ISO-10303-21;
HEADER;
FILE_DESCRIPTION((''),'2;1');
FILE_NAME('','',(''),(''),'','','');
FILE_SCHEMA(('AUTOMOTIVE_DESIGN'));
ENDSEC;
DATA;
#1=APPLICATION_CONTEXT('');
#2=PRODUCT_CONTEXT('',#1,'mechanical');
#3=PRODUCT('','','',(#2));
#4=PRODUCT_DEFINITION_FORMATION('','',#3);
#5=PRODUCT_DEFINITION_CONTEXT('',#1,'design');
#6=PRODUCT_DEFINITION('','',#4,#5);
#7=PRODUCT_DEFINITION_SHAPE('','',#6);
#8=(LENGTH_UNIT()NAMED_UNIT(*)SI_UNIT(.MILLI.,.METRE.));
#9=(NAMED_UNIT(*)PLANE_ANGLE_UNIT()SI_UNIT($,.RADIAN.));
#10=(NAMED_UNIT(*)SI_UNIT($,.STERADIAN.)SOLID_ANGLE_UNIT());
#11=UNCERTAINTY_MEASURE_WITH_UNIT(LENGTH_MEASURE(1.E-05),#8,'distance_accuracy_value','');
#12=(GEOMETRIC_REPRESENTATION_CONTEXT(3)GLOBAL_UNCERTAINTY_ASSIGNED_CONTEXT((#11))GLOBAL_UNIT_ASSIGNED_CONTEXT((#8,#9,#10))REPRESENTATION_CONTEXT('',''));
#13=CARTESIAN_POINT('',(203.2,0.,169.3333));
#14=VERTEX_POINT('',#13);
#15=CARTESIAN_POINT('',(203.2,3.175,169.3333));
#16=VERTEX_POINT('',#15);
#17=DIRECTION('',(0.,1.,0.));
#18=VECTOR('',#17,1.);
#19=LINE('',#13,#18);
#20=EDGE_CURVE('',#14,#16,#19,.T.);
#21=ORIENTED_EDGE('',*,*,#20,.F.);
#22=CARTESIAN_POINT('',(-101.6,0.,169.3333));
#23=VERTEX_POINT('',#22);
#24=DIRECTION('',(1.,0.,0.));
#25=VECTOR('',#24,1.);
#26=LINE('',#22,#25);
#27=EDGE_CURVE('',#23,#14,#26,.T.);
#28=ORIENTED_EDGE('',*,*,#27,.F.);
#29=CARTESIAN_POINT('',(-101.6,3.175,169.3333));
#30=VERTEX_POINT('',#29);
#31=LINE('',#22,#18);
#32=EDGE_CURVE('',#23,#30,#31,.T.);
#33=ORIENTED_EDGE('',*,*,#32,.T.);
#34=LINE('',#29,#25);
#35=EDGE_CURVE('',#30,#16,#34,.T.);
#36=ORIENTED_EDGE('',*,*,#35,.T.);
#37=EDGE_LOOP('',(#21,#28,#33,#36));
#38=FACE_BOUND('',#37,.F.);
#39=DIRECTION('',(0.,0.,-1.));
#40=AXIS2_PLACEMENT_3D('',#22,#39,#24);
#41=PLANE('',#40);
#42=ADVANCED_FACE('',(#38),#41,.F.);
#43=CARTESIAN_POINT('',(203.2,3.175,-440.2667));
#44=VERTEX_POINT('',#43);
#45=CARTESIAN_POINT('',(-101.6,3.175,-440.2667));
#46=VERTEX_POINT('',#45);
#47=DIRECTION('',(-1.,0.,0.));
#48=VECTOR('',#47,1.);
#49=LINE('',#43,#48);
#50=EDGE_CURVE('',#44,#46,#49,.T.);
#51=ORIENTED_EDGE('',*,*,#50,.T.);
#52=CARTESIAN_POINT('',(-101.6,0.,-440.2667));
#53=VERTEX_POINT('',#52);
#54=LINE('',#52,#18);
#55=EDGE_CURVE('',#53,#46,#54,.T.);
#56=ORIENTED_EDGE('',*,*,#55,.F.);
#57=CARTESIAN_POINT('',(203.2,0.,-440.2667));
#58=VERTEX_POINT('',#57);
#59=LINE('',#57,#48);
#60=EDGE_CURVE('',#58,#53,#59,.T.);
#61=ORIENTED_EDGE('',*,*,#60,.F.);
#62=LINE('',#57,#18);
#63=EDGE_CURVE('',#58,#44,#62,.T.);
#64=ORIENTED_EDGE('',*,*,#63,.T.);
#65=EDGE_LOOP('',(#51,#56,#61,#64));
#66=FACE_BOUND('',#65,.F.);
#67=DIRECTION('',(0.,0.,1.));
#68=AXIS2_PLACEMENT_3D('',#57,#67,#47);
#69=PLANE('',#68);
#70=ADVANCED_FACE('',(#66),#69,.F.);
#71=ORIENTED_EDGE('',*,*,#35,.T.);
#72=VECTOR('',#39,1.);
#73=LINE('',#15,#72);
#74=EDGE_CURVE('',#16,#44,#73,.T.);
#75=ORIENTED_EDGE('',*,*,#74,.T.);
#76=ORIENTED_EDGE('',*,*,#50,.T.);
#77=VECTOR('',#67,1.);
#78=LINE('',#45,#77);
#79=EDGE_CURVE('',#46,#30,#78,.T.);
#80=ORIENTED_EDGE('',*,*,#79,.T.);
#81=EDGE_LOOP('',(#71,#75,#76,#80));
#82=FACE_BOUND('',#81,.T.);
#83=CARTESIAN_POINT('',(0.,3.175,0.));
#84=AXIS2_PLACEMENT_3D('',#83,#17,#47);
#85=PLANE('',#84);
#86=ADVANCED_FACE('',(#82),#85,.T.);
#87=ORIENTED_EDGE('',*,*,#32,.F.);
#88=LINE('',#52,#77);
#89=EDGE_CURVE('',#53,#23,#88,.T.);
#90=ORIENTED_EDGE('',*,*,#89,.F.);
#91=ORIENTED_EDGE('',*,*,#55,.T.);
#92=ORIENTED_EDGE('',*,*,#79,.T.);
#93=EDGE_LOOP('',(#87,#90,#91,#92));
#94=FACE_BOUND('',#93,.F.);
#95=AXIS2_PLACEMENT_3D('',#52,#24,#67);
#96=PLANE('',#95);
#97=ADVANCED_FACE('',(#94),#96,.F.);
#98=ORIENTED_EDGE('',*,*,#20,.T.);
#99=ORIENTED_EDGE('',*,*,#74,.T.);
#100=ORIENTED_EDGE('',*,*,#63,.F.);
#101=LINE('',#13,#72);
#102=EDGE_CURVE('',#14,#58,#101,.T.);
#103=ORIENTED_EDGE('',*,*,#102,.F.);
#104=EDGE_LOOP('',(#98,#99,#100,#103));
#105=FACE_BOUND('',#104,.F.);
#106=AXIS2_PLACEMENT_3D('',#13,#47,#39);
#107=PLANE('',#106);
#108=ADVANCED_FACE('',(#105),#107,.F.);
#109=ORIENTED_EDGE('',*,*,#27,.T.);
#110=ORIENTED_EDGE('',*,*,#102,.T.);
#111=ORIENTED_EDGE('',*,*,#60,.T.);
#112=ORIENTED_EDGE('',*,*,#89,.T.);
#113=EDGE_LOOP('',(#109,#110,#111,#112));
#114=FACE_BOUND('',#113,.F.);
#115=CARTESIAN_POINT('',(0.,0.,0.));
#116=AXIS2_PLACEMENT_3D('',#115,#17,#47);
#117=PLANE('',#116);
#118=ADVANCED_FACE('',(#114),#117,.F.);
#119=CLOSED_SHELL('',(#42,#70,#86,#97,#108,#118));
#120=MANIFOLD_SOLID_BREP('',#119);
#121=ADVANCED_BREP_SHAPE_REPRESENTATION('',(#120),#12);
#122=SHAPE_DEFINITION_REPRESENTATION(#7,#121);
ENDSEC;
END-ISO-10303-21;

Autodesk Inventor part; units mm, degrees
ref_plane "YZ Plane" through (0, 0, 0) normal (1, 0, 0) x (0, 1, 0)
ref_plane "XZ Plane" through (0, 0, 0) normal (0, 1, 0) x (-1, 0, 0)
ref_plane "XY Plane" through (0, 0, 0) normal (0, 0, 1) x (1, 0, 0)
sketch "Sketch1" plane through (0, 0, 0) normal (0, 1, 0) x (-1, 0, 0)
  line L0 (101.6, 169.3333) -> (-203.2, 169.3333)
  line L1 (-203.2, 169.3333) -> (-203.2, -440.2667)
  line L2 (-203.2, -440.2667) -> (101.6, -440.2667)
  line L3 (101.6, -440.2667) -> (101.6, 169.3333)
  point P0 (0, 0)
  dimension "d0" = 304.8
  dimension "d1" = 609.6
extrude "Extrusion1" add sketch "Sketch1" along normal blind 3.175
sketch "Sketch2" plane through (0, 3.175, 0) normal (0, 1, 0) x (1, 0, 0)
  circle A0 centre (-15.875, -95.25) radius 63.5 construction
  circle A1 centre (-15.875, -95.25) radius 88.9 construction
  line L0 (-15.875, -6.35) -> (-53.1994, -43.8774)
  line L1 (-53.1994, -43.8774) -> (-100.4239, -67.7784)
  line L2 (-100.4239, -67.7784) -> (-76.2671, -114.8726)
  line L3 (-76.2671, -114.8726) -> (-68.1291, -167.1716)
  line L4 (-68.1291, -167.1716) -> (-15.875, -158.75)
  line L5 (36.3791, -167.1716) -> (-15.875, -158.75)
  line L6 (44.5171, -114.8726) -> (36.3791, -167.1716)
  line L7 (44.5171, -114.8726) -> (68.6739, -67.7784)
  line L8 (68.6739, -67.7784) -> (21.4494, -43.8774)
  line L9 (21.4494, -43.8774) -> (-15.875, -6.35)
  line L10 (122.7836, -165.1) -> (103.3018, -165.1)
  line L11 (103.3018, -168.275) -> (103.3018, -165.1)
  line L12 (95.6818, -168.275) -> (103.3018, -168.275)
  line L13 (95.6818, -165.1) -> (95.6818, -168.275)
  line L14 (73.025, -165.1) -> (95.6818, -165.1)
  line L15 (73.025, -165.1) -> (68.1796, -72.334)
  line L16 (68.1796, -72.334) -> (73.025, -165.1)
  line L17 (68.1796, -72.334) -> (71.3503, -72.1684)
  line L18 (71.3503, -72.1684) -> (70.9528, -64.5588)
  line L19 (70.9528, -64.5588) -> (71.3503, -72.1684)
  line L20 (70.9528, -64.5588) -> (67.7821, -64.7244)
  line L21 (67.7821, -64.7244) -> (70.9528, -64.5588)
  line L22 (67.7821, -64.7244) -> (63.2239, 22.5422)
  line L23 (67.7821, -64.7244) -> (63.2239, 22.5422)
  line L24 (63.2239, 22.5422) -> (90.9783, -64.8977)
  line L25 (90.9783, -64.8977) -> (63.2239, 22.5422)
  line L26 (90.9783, -64.8977) -> (87.9521, -65.8583)
  line L27 (87.9521, -65.8583) -> (90.2574, -73.1212)
  line L28 (90.2574, -73.1212) -> (93.2836, -72.1607)
  line L29 (90.2574, -73.1212) -> (93.2836, -72.1607)
  line L30 (93.2836, -72.1607) -> (122.7836, -165.1)
  line L31 (63.2239, 22.5422) -> (85.8673, 23.3211)
  line L32 (85.8673, 23.3211) -> (85.7582, 26.4942)
  line L33 (85.7582, 26.4942) -> (93.3737, 26.7562)
  line L34 (93.3737, 26.7562) -> (93.4828, 23.583)
  line L35 (93.4828, 23.583) -> (116.1262, 24.3619)
  line L36 (93.4828, 23.583) -> (116.1262, 24.3619)
  line L37 (116.1262, 24.3619) -> (124.1586, -68.1926)
  line L38 (124.1586, -68.1926) -> (116.1262, 24.3619)
  line L39 (124.1586, -68.1926) -> (127.3217, -67.9181)
  line L40 (127.3217, -67.9181) -> (127.9805, -75.5095)
  line L41 (127.3217, -67.9181) -> (127.9805, -75.5095)
  line L42 (127.9805, -75.5095) -> (124.8174, -75.784)
  line L43 (124.8174, -75.784) -> (132.8498, -168.3385)
  line L44 (124.8174, -75.784) -> (132.8498, -168.3385)
  line L45 (132.8498, -168.3385) -> (99.3425, -76.4774)
  line L46 (96.3597, -77.5654) -> (93.7485, -70.4068)
  line L47 (99.3425, -76.4774) -> (96.3597, -77.5654)
  line L48 (96.3597, -77.5654) -> (93.7485, -70.4068)
  line L49 (93.7485, -70.4068) -> (96.7313, -69.3188)
  line L50 (96.7313, -69.3188) -> (63.2239, 22.5422)
  line L51 (190.9567, -155.6753) -> (168.3382, -156.9913)
  line L52 (168.3382, -156.9913) -> (168.5226, -160.161)
  line L53 (168.5226, -160.161) -> (160.9155, -160.6036)
  line L54 (168.5226, -160.161) -> (160.9155, -160.6036)
  line L55 (160.9155, -160.6036) -> (160.731, -157.4339)
  line L56 (160.731, -157.4339) -> (138.1125, -158.75)
  line L57 (160.731, -157.4339) -> (138.1125, -158.75)
  line L58 (138.1125, -158.75) -> (127.8857, -66.4122)
  line L59 (127.8857, -66.4122) -> (138.1125, -158.75)
  line L60 (127.8857, -66.4122) -> (124.73, -66.7618)
  line L61 (124.73, -66.7618) -> (123.8912, -59.1881)
  line L62 (124.73, -66.7618) -> (123.8912, -59.1881)
  line L63 (123.8912, -59.1881) -> (127.0469, -58.8386)
  line L64 (127.0469, -58.8386) -> (116.8201, 33.4992)
  line L65 (127.0469, -58.8386) -> (116.8201, 33.4992)
  line L66 (116.8201, 33.4992) -> (152.4982, -57.5407)
  line L67 (155.4543, -56.3822) -> (158.2347, -63.4769)
  line L68 (152.4982, -57.5407) -> (155.4543, -56.3822)
  line L69 (155.4543, -56.3822) -> (158.2347, -63.4769)
  line L70 (158.2347, -63.4769) -> (155.2786, -64.6354)
  line L71 (155.2786, -64.6354) -> (190.9567, -155.6753)
  line L72 (155.2786, -64.6354) -> (190.9567, -155.6753)
  line L73 (190.9567, -155.6753) -> (168.3382, -156.9913)
  line L74 (168.3382, -156.9913) -> (168.5226, -160.161)
  line L75 (168.5226, -160.161) -> (160.9155, -160.6036)
  line L76 (168.5226, -160.161) -> (160.9155, -160.6036)
  line L77 (160.9155, -160.6036) -> (160.731, -157.4339)
  line L78 (160.731, -157.4339) -> (138.1125, -158.75)
  line L79 (160.731, -157.4339) -> (138.1125, -158.75)
  line L80 (138.1125, -158.75) -> (127.8857, -66.4122)
  line L81 (127.8857, -66.4122) -> (138.1125, -158.75)
  line L82 (127.8857, -66.4122) -> (124.73, -66.7618)
  line L83 (124.73, -66.7618) -> (123.8912, -59.1881)
  line L84 (124.73, -66.7618) -> (123.8912, -59.1881)
  line L85 (123.8912, -59.1881) -> (127.0469, -58.8386)
  line L86 (127.0469, -58.8386) -> (116.8201, 33.4992)
  line L87 (127.0469, -58.8386) -> (116.8201, 33.4992)
  line L88 (116.8201, 33.4992) -> (152.4982, -57.5407)
  line L89 (155.4543, -56.3822) -> (158.2347, -63.4769)
  line L90 (152.4982, -57.5407) -> (155.4543, -56.3822)
  line L91 (155.4543, -56.3822) -> (158.2347, -63.4769)
  line L92 (158.2347, -63.4769) -> (155.2786, -64.6354)
  line L93 (155.2786, -64.6354) -> (190.9567, -155.6753)
  line L94 (155.2786, -64.6354) -> (190.9567, -155.6753)
  line L95 (127, 34.925) -> (146.4644, 35.7476)
  line L96 (146.3304, 38.9198) -> (146.4644, 35.7476)
  line L97 (153.9436, 39.2415) -> (146.3304, 38.9198)
  line L98 (154.0776, 36.0694) -> (153.9436, 39.2415)
  line L99 (176.7142, 37.026) -> (154.0776, 36.0694)
  line L100 (176.7142, 37.026) -> (185.4723, -55.4526)
  line L101 (185.4723, -55.4526) -> (182.3115, -55.752)
  line L102 (182.3115, -55.752) -> (183.0299, -63.338)
  line L103 (183.0299, -63.338) -> (186.1907, -63.0387)
  line L104 (186.1907, -63.0387) -> (194.4296, -150.035)
  line L105 (194.4296, -150.035) -> (163.0079, -63.8449)
  line L106 (163.0079, -63.8449) -> (165.9908, -62.7575)
  line L107 (165.9908, -62.7575) -> (163.3809, -55.5984)
  line L108 (163.3809, -55.5984) -> (160.398, -56.6858)
  line L109 (160.398, -56.6858) -> (127, 34.925)
  line L110 (-37.5539, 39.6875) -> (-57.0357, 39.6875)
  line L111 (-57.0357, 36.5125) -> (-57.0357, 39.6875)
  line L112 (-64.6557, 36.5125) -> (-57.0357, 36.5125)
  line L113 (-64.6557, 39.6875) -> (-64.6557, 36.5125)
  line L114 (-87.3125, 39.6875) -> (-64.6557, 39.6875)
  line L115 (-87.3125, 39.6875) -> (-92.1579, 132.4535)
  line L116 (-92.1579, 132.4535) -> (-88.9872, 132.6191)
  line L117 (-88.9872, 132.6191) -> (-89.3847, 140.2287)
  line L118 (-89.3847, 140.2287) -> (-92.5554, 140.0631)
  line L119 (-92.5554, 140.0631) -> (-97.1136, 227.3297)
  line L120 (-97.1136, 227.3297) -> (-69.3592, 139.8898)
  line L121 (-69.3592, 139.8898) -> (-72.3854, 138.9292)
  line L122 (-72.3854, 138.9292) -> (-70.0801, 131.6663)
  line L123 (-70.0801, 131.6663) -> (-67.0539, 132.6268)
  line L124 (-67.0539, 132.6268) -> (-37.5539, 39.6875)
  line L125 (22.7711, 42.8625) -> (3.2893, 42.8625)
  line L126 (3.2893, 39.6875) -> (3.2893, 42.8625)
  line L127 (-4.3307, 39.6875) -> (3.2893, 39.6875)
  line L128 (-4.3307, 42.8625) -> (-4.3307, 39.6875)
  line L129 (-26.9875, 42.8625) -> (-4.3307, 42.8625)
  line L130 (-26.9875, 42.8625) -> (-31.8329, 135.6285)
  line L131 (-31.8329, 135.6285) -> (-28.6622, 135.7941)
  line L132 (-28.6622, 135.7941) -> (-29.0597, 143.4037)
  line L133 (-29.0597, 143.4037) -> (-32.2304, 143.2381)
  line L134 (-32.2304, 143.2381) -> (-36.7886, 230.5047)
  line L135 (-36.7886, 230.5047) -> (-9.0342, 143.0648)
  line L136 (-9.0342, 143.0648) -> (-12.0604, 142.1042)
  line L137 (-12.0604, 142.1042) -> (-9.7551, 134.8413)
  line L138 (-9.7551, 134.8413) -> (-6.7289, 135.8018)
  line L139 (-6.7289, 135.8018) -> (22.7711, 42.8625)
  line L140 (87.8586, 44.45) -> (68.3768, 44.45)
  line L141 (68.3768, 41.275) -> (68.3768, 44.45)
  line L142 (60.7568, 41.275) -> (68.3768, 41.275)
  line L143 (60.7568, 44.45) -> (60.7568, 41.275)
  line L144 (38.1, 44.45) -> (60.7568, 44.45)
  line L145 (38.1, 44.45) -> (33.2546, 137.216)
  line L146 (33.2546, 137.216) -> (36.4253, 137.3816)
  line L147 (36.4253, 137.3816) -> (36.0278, 144.9912)
  line L148 (36.0278, 144.9912) -> (32.8571, 144.8256)
  line L149 (32.8571, 144.8256) -> (28.2989, 232.0922)
  line L150 (28.2989, 232.0922) -> (56.0533, 144.6523)
  line L151 (56.0533, 144.6523) -> (53.0271, 143.6917)
  line L152 (53.0271, 143.6917) -> (55.3324, 136.4288)
  line L153 (55.3324, 136.4288) -> (58.3586, 137.3893)
  line L154 (58.3586, 137.3893) -> (87.8586, 44.45)
  line L155 (-96.8375, -25.4) -> (-96.8375, -2.7432)
  line L156 (-96.8375, -2.7432) -> (-100.0125, -2.7432)
  line L157 (-100.0125, -2.7432) -> (-100.0125, 4.8768)
  line L158 (-100.0125, -2.7432) -> (-100.0125, 4.8768)
  line L159 (-100.0125, 4.8768) -> (-96.8375, 4.8768)
  line L160 (-96.8375, 4.8768) -> (-96.8375, 27.5336)
  line L161 (-96.8375, 4.8768) -> (-96.8375, 27.5336)
  line L162 (-96.8375, 27.5336) -> (-4.0616, 32.3795)
  line L163 (-4.0616, 32.3795) -> (-96.8375, 27.5336)
  line L164 (-4.0616, 32.3795) -> (-4.2272, 35.5502)
  line L165 (-4.2272, 35.5502) -> (3.3824, 35.9477)
  line L166 (-4.2272, 35.5502) -> (3.3824, 35.9477)
  line L167 (3.3824, 35.9477) -> (3.548, 32.777)
  line L168 (3.548, 32.777) -> (96.3239, 37.623)
  line L169 (3.548, 32.777) -> (96.3239, 37.623)
  line L170 (96.3239, 37.623) -> (3.3653, 7.2933)
  line L171 (4.3501, 4.2749) -> (-2.8941, 1.9113)
  line L172 (3.3653, 7.2933) -> (4.3501, 4.2749)
  line L173 (4.3501, 4.2749) -> (-2.8941, 1.9113)
  line L174 (-2.8941, 1.9113) -> (-3.8789, 4.9297)
  line L175 (-3.8789, 4.9297) -> (-96.8375, -25.4)
  line L176 (-3.8789, 4.9297) -> (-96.8375, -25.4)
  line L177 (-96.8375, -25.4) -> (-96.8375, -2.7432)
  line L178 (-96.8375, -2.7432) -> (-100.0125, -2.7432)
  line L179 (-100.0125, -2.7432) -> (-100.0125, 4.8768)
  line L180 (-100.0125, -2.7432) -> (-100.0125, 4.8768)
  line L181 (-100.0125, 4.8768) -> (-96.8375, 4.8768)
  line L182 (-96.8375, 4.8768) -> (-96.8375, 27.5336)
  line L183 (-96.8375, 4.8768) -> (-96.8375, 27.5336)
  line L184 (-96.8375, 27.5336) -> (-4.0616, 32.3795)
  line L185 (-4.0616, 32.3795) -> (-96.8375, 27.5336)
  line L186 (-4.0616, 32.3795) -> (-4.2272, 35.5502)
  line L187 (-4.2272, 35.5502) -> (3.3824, 35.9477)
  line L188 (-4.2272, 35.5502) -> (3.3824, 35.9477)
  line L189 (3.3824, 35.9477) -> (3.548, 32.777)
  line L190 (3.548, 32.777) -> (96.3239, 37.623)
  line L191 (3.548, 32.777) -> (96.3239, 37.623)
  line L192 (96.3239, 37.623) -> (3.3653, 7.2933)
  line L193 (4.3501, 4.2749) -> (-2.8941, 1.9113)
  line L194 (3.3653, 7.2933) -> (4.3501, 4.2749)
  line L195 (4.3501, 4.2749) -> (-2.8941, 1.9113)
  line L196 (-2.8941, 1.9113) -> (-3.8789, 4.9297)
  line L197 (-3.8789, 4.9297) -> (-96.8375, -25.4)
  line L198 (-3.8789, 4.9297) -> (-96.8375, -25.4)
  line L199 (-95.25, 233.3625) -> (-72.5932, 233.3625)
  line L200 (-72.5932, 233.3625) -> (-72.5932, 236.5375)
  line L201 (-72.5932, 236.5375) -> (-64.9732, 236.5375)
  line L202 (-72.5932, 236.5375) -> (-64.9732, 236.5375)
  line L203 (-64.9732, 236.5375) -> (-64.9732, 233.3625)
  line L204 (-64.9732, 233.3625) -> (-42.3164, 233.3625)
  line L205 (-64.9732, 233.3625) -> (-42.3164, 233.3625)
  line L206 (-42.3164, 233.3625) -> (-37.4705, 140.5866)
  line L207 (-37.4705, 140.5866) -> (-42.3164, 233.3625)
  line L208 (-37.4705, 140.5866) -> (-34.2998, 140.7522)
  line L209 (-34.2998, 140.7522) -> (-33.9023, 133.1426)
  line L210 (-34.2998, 140.7522) -> (-33.9023, 133.1426)
  line L211 (-33.9023, 133.1426) -> (-37.073, 132.977)
  line L212 (-37.073, 132.977) -> (-32.227, 40.2011)
  line L213 (-37.073, 132.977) -> (-32.227, 40.2011)
  line L214 (-32.227, 40.2011) -> (-62.5567, 133.1597)
  line L215 (-65.5751, 132.1749) -> (-67.9387, 139.4191)
  line L216 (-62.5567, 133.1597) -> (-65.5751, 132.1749)
  line L217 (-65.5751, 132.1749) -> (-67.9387, 139.4191)
  line L218 (-67.9387, 139.4191) -> (-64.9203, 140.4039)
  line L219 (-64.9203, 140.4039) -> (-95.25, 233.3625)
  line L220 (-64.9203, 140.4039) -> (-95.25, 233.3625)
  line L221 (-95.25, 233.3625) -> (-72.5932, 233.3625)
  line L222 (-72.5932, 233.3625) -> (-72.5932, 236.5375)
  line L223 (-72.5932, 236.5375) -> (-64.9732, 236.5375)
  line L224 (-72.5932, 236.5375) -> (-64.9732, 236.5375)
  line L225 (-64.9732, 236.5375) -> (-64.9732, 233.3625)
  line L226 (-64.9732, 233.3625) -> (-42.3164, 233.3625)
  line L227 (-64.9732, 233.3625) -> (-42.3164, 233.3625)
  line L228 (-42.3164, 233.3625) -> (-37.4705, 140.5866)
  line L229 (-37.4705, 140.5866) -> (-42.3164, 233.3625)
  line L230 (-37.4705, 140.5866) -> (-34.2998, 140.7522)
  line L231 (-34.2998, 140.7522) -> (-33.9023, 133.1426)
  line L232 (-34.2998, 140.7522) -> (-33.9023, 133.1426)
  line L233 (-33.9023, 133.1426) -> (-37.073, 132.977)
  line L234 (-37.073, 132.977) -> (-32.227, 40.2011)
  line L235 (-37.073, 132.977) -> (-32.227, 40.2011)
  line L236 (-32.227, 40.2011) -> (-62.5567, 133.1597)
  line L237 (-65.5751, 132.1749) -> (-67.9387, 139.4191)
  line L238 (-62.5567, 133.1597) -> (-65.5751, 132.1749)
  line L239 (-65.5751, 132.1749) -> (-67.9387, 139.4191)
  line L240 (-67.9387, 139.4191) -> (-64.9203, 140.4039)
  line L241 (-64.9203, 140.4039) -> (-95.25, 233.3625)
  line L242 (-64.9203, 140.4039) -> (-95.25, 233.3625)
  line L243 (-32.8605, 231.2614) -> (-10.2037, 231.2614)
  line L244 (-10.2037, 231.2614) -> (-10.2037, 234.4364)
  line L245 (-10.2037, 234.4364) -> (-2.5837, 234.4364)
  line L246 (-10.2037, 234.4364) -> (-2.5837, 234.4364)
  line L247 (-2.5837, 234.4364) -> (-2.5837, 231.2614)
  line L248 (-2.5837, 231.2614) -> (20.0731, 231.2614)
  line L249 (-2.5837, 231.2614) -> (20.0731, 231.2614)
  line L250 (20.0731, 231.2614) -> (24.9191, 138.4855)
  line L251 (24.9191, 138.4855) -> (20.0731, 231.2614)
  line L252 (24.9191, 138.4855) -> (28.0898, 138.6511)
  line L253 (28.0898, 138.6511) -> (28.4872, 131.0415)
  line L254 (28.0898, 138.6511) -> (28.4872, 131.0415)
  line L255 (28.4872, 131.0415) -> (25.3166, 130.8759)
  line L256 (25.3166, 130.8759) -> (30.1625, 38.1)
  line L257 (30.1625, 38.1) -> (-0.1672, 131.0586)
  line L258 (-3.1856, 130.0738) -> (-5.5492, 137.318)
  line L259 (-0.1672, 131.0586) -> (-3.1856, 130.0738)
  line L260 (-3.1856, 130.0738) -> (-5.5492, 137.318)
  line L261 (-5.5492, 137.318) -> (-2.5308, 138.3028)
  line L262 (-2.5308, 138.3028) -> (-32.8605, 231.2614)
  line L263 (-2.5308, 138.3028) -> (-32.8605, 231.2614)
  line L264 (-32.8605, 231.2614) -> (-10.2037, 231.2614)
  line L265 (-10.2037, 231.2614) -> (-10.2037, 234.4364)
  line L266 (-10.2037, 234.4364) -> (-2.5837, 234.4364)
  line L267 (-10.2037, 234.4364) -> (-2.5837, 234.4364)
  line L268 (-2.5837, 234.4364) -> (-2.5837, 231.2614)
  line L269 (-2.5837, 231.2614) -> (20.0731, 231.2614)
  line L270 (-2.5837, 231.2614) -> (20.0731, 231.2614)
  line L271 (20.0731, 231.2614) -> (24.9191, 138.4855)
  line L272 (24.9191, 138.4855) -> (20.0731, 231.2614)
  line L273 (24.9191, 138.4855) -> (28.0898, 138.6511)
  line L274 (28.0898, 138.6511) -> (28.4872, 131.0415)
  line L275 (28.0898, 138.6511) -> (28.4872, 131.0415)
  line L276 (28.4872, 131.0415) -> (25.3166, 130.8759)
  line L277 (-3.1856, 130.0738) -> (-5.5492, 137.318)
  line L278 (-0.1672, 131.0586) -> (-3.1856, 130.0738)
  line L279 (-3.1856, 130.0738) -> (-5.5492, 137.318)
  line L280 (-5.5492, 137.318) -> (-2.5308, 138.3028)
  line L281 (-2.5308, 138.3028) -> (-32.8605, 231.2614)
  line L282 (-2.5308, 138.3028) -> (-32.8605, 231.2614)
  line L283 (-35.8775, 291.0586) -> (17.4625, 291.0586)
  line L284 (17.4625, 268.4018) -> (17.4625, 291.0586)
  line L285 (17.4625, 268.4018) -> (14.2875, 268.4018)
  line L286 (14.2875, 268.4018) -> (14.2875, 260.7818)
  line L287 (14.2875, 260.7818) -> (17.4625, 260.7818)
  line L288 (17.4625, 260.7818) -> (17.4625, 238.125)
  line L289 (-35.8775, 238.125) -> (17.4625, 238.125)
  line L290 (-35.8775, 238.125) -> (-35.8775, 241.3)
  line L291 (-35.8775, 241.3) -> (-43.4975, 241.3)
  line L292 (-43.4975, 241.3) -> (-43.4975, 238.125)
  line L293 (-43.4975, 238.125) -> (-96.8375, 238.125)
  line L294 (-96.8375, 238.125) -> (-96.8375, 260.7818)
  line L295 (-96.8375, 291.0586) -> (-96.8375, 268.4018)
  line L296 (-96.8375, 260.7818) -> (-100.0125, 260.7818)
  line L297 (-100.0125, 260.7818) -> (-100.0125, 268.4018)
  line L298 (-100.0125, 268.4018) -> (-96.8375, 268.4018)
  line L299 (-96.8375, 291.0586) -> (-43.4975, 291.0586)
  line L300 (-43.4975, 291.0586) -> (-43.4975, 294.2336)
  line L301 (-35.8775, 294.2336) -> (-43.4975, 294.2336)
  line L302 (-35.8775, 294.2336) -> (-35.8775, 291.0586)
  line L303 (-35.8775, 343.9922) -> (17.4625, 343.9922)
  line L304 (17.4625, 321.3354) -> (17.4625, 343.9922)
  line L305 (17.4625, 321.3354) -> (14.2875, 321.3354)
  line L306 (14.2875, 321.3354) -> (14.2875, 313.7154)
  line L307 (14.2875, 313.7154) -> (17.4625, 313.7154)
  line L308 (17.4625, 313.7154) -> (17.4625, 291.0586)
  line L309 (-35.8775, 291.0586) -> (17.4625, 291.0586)
  line L310 (-35.8775, 291.0586) -> (-35.8775, 294.2336)
  line L311 (-35.8775, 294.2336) -> (-43.4975, 294.2336)
  line L312 (-43.4975, 294.2336) -> (-43.4975, 291.0586)
  line L313 (-43.4975, 291.0586) -> (-96.8375, 291.0586)
  line L314 (-96.8375, 291.0586) -> (-96.8375, 313.7154)
  line L315 (-96.8375, 343.9922) -> (-96.8375, 321.3354)
  line L316 (-96.8375, 313.7154) -> (-100.0125, 313.7154)
  line L317 (-100.0125, 313.7154) -> (-100.0125, 321.3354)
  line L318 (-100.0125, 321.3354) -> (-96.8375, 321.3354)
  line L319 (-96.8375, 343.9922) -> (-43.4975, 343.9922)
  line L320 (-43.4975, 343.9922) -> (-43.4975, 347.1672)
  line L321 (-35.8775, 347.1672) -> (-43.4975, 347.1672)
  line L322 (-35.8775, 347.1672) -> (-35.8775, 343.9922)
  line L323 (-35.8775, 396.9258) -> (17.4625, 396.9258)
  line L324 (17.4625, 374.269) -> (17.4625, 396.9258)
  line L325 (17.4625, 374.269) -> (14.2875, 374.269)
  line L326 (14.2875, 374.269) -> (14.2875, 366.649)
  line L327 (14.2875, 366.649) -> (17.4625, 366.649)
  line L328 (17.4625, 366.649) -> (17.4625, 343.9922)
  line L329 (-35.8775, 343.9922) -> (17.4625, 343.9922)
  line L330 (-35.8775, 343.9922) -> (-35.8775, 347.1672)
  line L331 (-35.8775, 347.1672) -> (-43.4975, 347.1672)
  line L332 (-43.4975, 347.1672) -> (-43.4975, 343.9922)
  line L333 (-43.4975, 343.9922) -> (-96.8375, 343.9922)
  line L334 (-96.8375, 343.9922) -> (-96.8375, 366.649)
  line L335 (-96.8375, 396.9258) -> (-96.8375, 374.269)
  line L336 (-96.8375, 366.649) -> (-100.0125, 366.649)
  line L337 (-100.0125, 366.649) -> (-100.0125, 374.269)
  line L338 (-100.0125, 374.269) -> (-96.8375, 374.269)
  line L339 (-96.8375, 396.9258) -> (-43.4975, 396.9258)
  line L340 (-43.4975, 396.9258) -> (-43.4975, 400.1008)
  line L341 (-35.8775, 400.1008) -> (-43.4975, 400.1008)
  line L342 (-35.8775, 400.1008) -> (-35.8775, 396.9258)
  line L343 (145.9975, 435.5211) -> (199.3375, 435.5211)
  line L344 (199.3375, 412.8643) -> (199.3375, 435.5211)
  line L345 (199.3375, 412.8643) -> (196.1625, 412.8643)
  line L346 (196.1625, 412.8643) -> (196.1625, 405.2443)
  line L347 (196.1625, 405.2443) -> (199.3375, 405.2443)
  line L348 (199.3375, 405.2443) -> (199.3375, 382.5875)
  line L349 (145.9975, 382.5875) -> (199.3375, 382.5875)
  line L350 (145.9975, 382.5875) -> (145.9975, 385.7625)
  line L351 (145.9975, 385.7625) -> (138.3775, 385.7625)
  line L352 (138.3775, 385.7625) -> (138.3775, 382.5875)
  line L353 (138.3775, 382.5875) -> (85.0375, 382.5875)
  line L354 (85.0375, 382.5875) -> (85.0375, 405.2443)
  line L355 (85.0375, 435.5211) -> (85.0375, 412.8643)
  line L356 (85.0375, 405.2443) -> (81.8625, 405.2443)
  line L357 (81.8625, 405.2443) -> (81.8625, 412.8643)
  line L358 (81.8625, 412.8643) -> (85.0375, 412.8643)
  line L359 (85.0375, 435.5211) -> (138.3775, 435.5211)
  line L360 (138.3775, 435.5211) -> (138.3775, 438.6961)
  line L361 (145.9975, 438.6961) -> (138.3775, 438.6961)
  line L362 (145.9975, 438.6961) -> (145.9975, 435.5211)
  line L363 (138.3775, 382.5875) -> (138.3775, 385.7625)
  line L364 (145.9975, 329.6539) -> (145.9975, 332.8289)
  line L365 (145.9975, 385.7625) -> (145.9975, 382.5875)
  line L366 (145.9975, 385.7625) -> (138.3775, 385.7625)
  line L367 (145.9975, 329.6539) -> (199.3375, 329.6539)
  line L368 (199.3375, 352.3107) -> (199.3375, 329.6539)
  line L369 (196.1625, 359.9307) -> (196.1625, 352.3107)
  line L370 (196.1625, 352.3107) -> (199.3375, 352.3107)
  line L371 (199.3375, 359.9307) -> (196.1625, 359.9307)
  line L372 (199.3375, 359.9307) -> (199.3375, 382.5875)
  line L373 (145.9975, 382.5875) -> (199.3375, 382.5875)
  line L374 (145.9975, 332.8289) -> (138.3775, 332.8289)
  line L375 (138.3775, 332.8289) -> (138.3775, 329.6539)
  line L376 (85.0375, 382.5875) -> (138.3775, 382.5875)
  line L377 (85.0375, 382.5875) -> (85.0375, 359.9307)
  line L378 (85.0375, 329.6539) -> (85.0375, 352.3107)
  line L379 (81.8625, 352.3107) -> (81.8625, 359.9307)
  line L380 (81.8625, 359.9307) -> (85.0375, 359.9307)
  line L381 (85.0375, 352.3107) -> (81.8625, 352.3107)
  line L382 (138.3775, 329.6539) -> (85.0375, 329.6539)
  line L383 (138.3775, 329.6539) -> (138.3775, 332.8289)
  line L384 (145.9975, 276.7203) -> (145.9975, 279.8953)
  line L385 (145.9975, 332.8289) -> (145.9975, 329.6539)
  line L386 (145.9975, 332.8289) -> (138.3775, 332.8289)
  line L387 (145.9975, 276.7203) -> (199.3375, 276.7203)
  line L388 (199.3375, 299.3771) -> (199.3375, 276.7203)
  line L389 (196.1625, 306.9971) -> (196.1625, 299.3771)
  line L390 (196.1625, 299.3771) -> (199.3375, 299.3771)
  line L391 (199.3375, 306.9971) -> (196.1625, 306.9971)
  line L392 (199.3375, 306.9971) -> (199.3375, 329.6539)
  line L393 (145.9975, 329.6539) -> (199.3375, 329.6539)
  line L394 (145.9975, 279.8953) -> (138.3775, 279.8953)
  line L395 (138.3775, 279.8953) -> (138.3775, 276.7203)
  line L396 (85.0375, 329.6539) -> (138.3775, 329.6539)
  line L397 (85.0375, 329.6539) -> (85.0375, 306.9971)
  line L398 (85.0375, 276.7203) -> (85.0375, 299.3771)
  line L399 (81.8625, 299.3771) -> (81.8625, 306.9971)
  line L400 (81.8625, 306.9971) -> (85.0375, 306.9971)
  line L401 (85.0375, 299.3771) -> (81.8625, 299.3771)
  line L402 (138.3775, 276.7203) -> (85.0375, 276.7203)
  line L403 (138.3775, 276.7203) -> (138.3775, 279.8953)
  line L404 (145.9975, 223.7867) -> (145.9975, 226.9617)
  line L405 (145.9975, 279.8953) -> (145.9975, 276.7203)
  line L406 (145.9975, 279.8953) -> (138.3775, 279.8953)
  line L407 (145.9975, 223.7867) -> (199.3375, 223.7867)
  line L408 (199.3375, 246.4435) -> (199.3375, 223.7867)
  line L409 (196.1625, 254.0635) -> (196.1625, 246.4435)
  line L410 (196.1625, 246.4435) -> (199.3375, 246.4435)
  line L411 (199.3375, 254.0635) -> (196.1625, 254.0635)
  line L412 (199.3375, 254.0635) -> (199.3375, 276.7203)
  line L413 (145.9975, 276.7203) -> (199.3375, 276.7203)
  line L414 (145.9975, 226.9617) -> (138.3775, 226.9617)
  line L415 (138.3775, 226.9617) -> (138.3775, 223.7867)
  line L416 (85.0375, 276.7203) -> (138.3775, 276.7203)
  line L417 (85.0375, 276.7203) -> (85.0375, 254.0635)
  line L418 (85.0375, 223.7867) -> (85.0375, 246.4435)
  line L419 (81.8625, 246.4435) -> (81.8625, 254.0635)
  line L420 (81.8625, 254.0635) -> (85.0375, 254.0635)
  line L421 (85.0375, 246.4435) -> (81.8625, 246.4435)
  line L422 (138.3775, 223.7867) -> (85.0375, 223.7867)
  line L423 (138.3775, 223.7867) -> (138.3775, 226.9617)
  line L424 (145.9975, 170.8531) -> (145.9975, 174.0281)
  line L425 (145.9975, 226.9617) -> (145.9975, 223.7867)
  line L426 (145.9975, 226.9617) -> (138.3775, 226.9617)
  line L427 (145.9975, 170.8531) -> (199.3375, 170.8531)
  line L428 (199.3375, 193.5099) -> (199.3375, 170.8531)
  line L429 (196.1625, 201.1299) -> (196.1625, 193.5099)
  line L430 (196.1625, 193.5099) -> (199.3375, 193.5099)
  line L431 (199.3375, 201.1299) -> (196.1625, 201.1299)
  line L432 (199.3375, 201.1299) -> (199.3375, 223.7867)
  line L433 (145.9975, 223.7867) -> (199.3375, 223.7867)
  line L434 (145.9975, 174.0281) -> (138.3775, 174.0281)
  line L435 (138.3775, 174.0281) -> (138.3775, 170.8531)
  line L436 (85.0375, 223.7867) -> (138.3775, 223.7867)
  line L437 (85.0375, 223.7867) -> (85.0375, 201.1299)
  line L438 (85.0375, 170.8531) -> (85.0375, 193.5099)
  line L439 (81.8625, 193.5099) -> (81.8625, 201.1299)
  line L440 (81.8625, 201.1299) -> (85.0375, 201.1299)
  line L441 (85.0375, 193.5099) -> (81.8625, 193.5099)
  line L442 (138.3775, 170.8531) -> (85.0375, 170.8531)
  line L443 (138.3775, 170.8531) -> (138.3775, 174.0281)
  line L444 (145.9975, 117.9195) -> (145.9975, 121.0945)
  line L445 (145.9975, 174.0281) -> (145.9975, 170.8531)
  line L446 (145.9975, 174.0281) -> (138.3775, 174.0281)
  line L447 (145.9975, 117.9195) -> (199.3375, 117.9195)
  line L448 (199.3375, 140.5763) -> (199.3375, 117.9195)
  line L449 (196.1625, 148.1963) -> (196.1625, 140.5763)
  line L450 (196.1625, 140.5763) -> (199.3375, 140.5763)
  line L451 (199.3375, 148.1963) -> (196.1625, 148.1963)
  line L452 (199.3375, 148.1963) -> (199.3375, 170.8531)
  line L453 (145.9975, 170.8531) -> (199.3375, 170.8531)
  line L454 (145.9975, 121.0945) -> (138.3775, 121.0945)
  line L455 (138.3775, 121.0945) -> (138.3775, 117.9195)
  line L456 (85.0375, 170.8531) -> (138.3775, 170.8531)
  line L457 (85.0375, 170.8531) -> (85.0375, 148.1963)
  line L458 (85.0375, 117.9195) -> (85.0375, 140.5763)
  line L459 (81.8625, 140.5763) -> (81.8625, 148.1963)
  line L460 (81.8625, 148.1963) -> (85.0375, 148.1963)
  line L461 (85.0375, 140.5763) -> (81.8625, 140.5763)
  line L462 (138.3775, 117.9195) -> (85.0375, 117.9195)
  line L463 (138.3775, 117.9195) -> (138.3775, 121.0945)
  line L464 (145.9975, 64.9859) -> (145.9975, 68.1609)
  line L465 (145.9975, 121.0945) -> (145.9975, 117.9195)
  line L466 (145.9975, 121.0945) -> (138.3775, 121.0945)
  line L467 (145.9975, 64.9859) -> (199.3375, 64.9859)
  line L468 (199.3375, 87.6427) -> (199.3375, 64.9859)
  line L469 (196.1625, 95.2627) -> (196.1625, 87.6427)
  line L470 (196.1625, 87.6427) -> (199.3375, 87.6427)
  line L471 (199.3375, 95.2627) -> (196.1625, 95.2627)
  line L472 (199.3375, 95.2627) -> (199.3375, 117.9195)
  line L473 (145.9975, 117.9195) -> (199.3375, 117.9195)
  line L474 (145.9975, 68.1609) -> (138.3775, 68.1609)
  line L475 (138.3775, 68.1609) -> (138.3775, 64.9859)
  line L476 (85.0375, 117.9195) -> (138.3775, 117.9195)
  line L477 (85.0375, 117.9195) -> (85.0375, 95.2627)
  line L478 (85.0375, 64.9859) -> (85.0375, 87.6427)
  line L479 (81.8625, 87.6427) -> (81.8625, 95.2627)
  line L480 (81.8625, 95.2627) -> (85.0375, 95.2627)
  line L481 (85.0375, 87.6427) -> (81.8625, 87.6427)
  line L482 (138.3775, 64.9859) -> (85.0375, 64.9859)
  point P0 (0, 0)
  dimension "d8" = 127
  dimension "d9" = 177.8
  dimension "d10" = 360
  dimension "d11" = 360
properties part number "Birdhouse Board"
